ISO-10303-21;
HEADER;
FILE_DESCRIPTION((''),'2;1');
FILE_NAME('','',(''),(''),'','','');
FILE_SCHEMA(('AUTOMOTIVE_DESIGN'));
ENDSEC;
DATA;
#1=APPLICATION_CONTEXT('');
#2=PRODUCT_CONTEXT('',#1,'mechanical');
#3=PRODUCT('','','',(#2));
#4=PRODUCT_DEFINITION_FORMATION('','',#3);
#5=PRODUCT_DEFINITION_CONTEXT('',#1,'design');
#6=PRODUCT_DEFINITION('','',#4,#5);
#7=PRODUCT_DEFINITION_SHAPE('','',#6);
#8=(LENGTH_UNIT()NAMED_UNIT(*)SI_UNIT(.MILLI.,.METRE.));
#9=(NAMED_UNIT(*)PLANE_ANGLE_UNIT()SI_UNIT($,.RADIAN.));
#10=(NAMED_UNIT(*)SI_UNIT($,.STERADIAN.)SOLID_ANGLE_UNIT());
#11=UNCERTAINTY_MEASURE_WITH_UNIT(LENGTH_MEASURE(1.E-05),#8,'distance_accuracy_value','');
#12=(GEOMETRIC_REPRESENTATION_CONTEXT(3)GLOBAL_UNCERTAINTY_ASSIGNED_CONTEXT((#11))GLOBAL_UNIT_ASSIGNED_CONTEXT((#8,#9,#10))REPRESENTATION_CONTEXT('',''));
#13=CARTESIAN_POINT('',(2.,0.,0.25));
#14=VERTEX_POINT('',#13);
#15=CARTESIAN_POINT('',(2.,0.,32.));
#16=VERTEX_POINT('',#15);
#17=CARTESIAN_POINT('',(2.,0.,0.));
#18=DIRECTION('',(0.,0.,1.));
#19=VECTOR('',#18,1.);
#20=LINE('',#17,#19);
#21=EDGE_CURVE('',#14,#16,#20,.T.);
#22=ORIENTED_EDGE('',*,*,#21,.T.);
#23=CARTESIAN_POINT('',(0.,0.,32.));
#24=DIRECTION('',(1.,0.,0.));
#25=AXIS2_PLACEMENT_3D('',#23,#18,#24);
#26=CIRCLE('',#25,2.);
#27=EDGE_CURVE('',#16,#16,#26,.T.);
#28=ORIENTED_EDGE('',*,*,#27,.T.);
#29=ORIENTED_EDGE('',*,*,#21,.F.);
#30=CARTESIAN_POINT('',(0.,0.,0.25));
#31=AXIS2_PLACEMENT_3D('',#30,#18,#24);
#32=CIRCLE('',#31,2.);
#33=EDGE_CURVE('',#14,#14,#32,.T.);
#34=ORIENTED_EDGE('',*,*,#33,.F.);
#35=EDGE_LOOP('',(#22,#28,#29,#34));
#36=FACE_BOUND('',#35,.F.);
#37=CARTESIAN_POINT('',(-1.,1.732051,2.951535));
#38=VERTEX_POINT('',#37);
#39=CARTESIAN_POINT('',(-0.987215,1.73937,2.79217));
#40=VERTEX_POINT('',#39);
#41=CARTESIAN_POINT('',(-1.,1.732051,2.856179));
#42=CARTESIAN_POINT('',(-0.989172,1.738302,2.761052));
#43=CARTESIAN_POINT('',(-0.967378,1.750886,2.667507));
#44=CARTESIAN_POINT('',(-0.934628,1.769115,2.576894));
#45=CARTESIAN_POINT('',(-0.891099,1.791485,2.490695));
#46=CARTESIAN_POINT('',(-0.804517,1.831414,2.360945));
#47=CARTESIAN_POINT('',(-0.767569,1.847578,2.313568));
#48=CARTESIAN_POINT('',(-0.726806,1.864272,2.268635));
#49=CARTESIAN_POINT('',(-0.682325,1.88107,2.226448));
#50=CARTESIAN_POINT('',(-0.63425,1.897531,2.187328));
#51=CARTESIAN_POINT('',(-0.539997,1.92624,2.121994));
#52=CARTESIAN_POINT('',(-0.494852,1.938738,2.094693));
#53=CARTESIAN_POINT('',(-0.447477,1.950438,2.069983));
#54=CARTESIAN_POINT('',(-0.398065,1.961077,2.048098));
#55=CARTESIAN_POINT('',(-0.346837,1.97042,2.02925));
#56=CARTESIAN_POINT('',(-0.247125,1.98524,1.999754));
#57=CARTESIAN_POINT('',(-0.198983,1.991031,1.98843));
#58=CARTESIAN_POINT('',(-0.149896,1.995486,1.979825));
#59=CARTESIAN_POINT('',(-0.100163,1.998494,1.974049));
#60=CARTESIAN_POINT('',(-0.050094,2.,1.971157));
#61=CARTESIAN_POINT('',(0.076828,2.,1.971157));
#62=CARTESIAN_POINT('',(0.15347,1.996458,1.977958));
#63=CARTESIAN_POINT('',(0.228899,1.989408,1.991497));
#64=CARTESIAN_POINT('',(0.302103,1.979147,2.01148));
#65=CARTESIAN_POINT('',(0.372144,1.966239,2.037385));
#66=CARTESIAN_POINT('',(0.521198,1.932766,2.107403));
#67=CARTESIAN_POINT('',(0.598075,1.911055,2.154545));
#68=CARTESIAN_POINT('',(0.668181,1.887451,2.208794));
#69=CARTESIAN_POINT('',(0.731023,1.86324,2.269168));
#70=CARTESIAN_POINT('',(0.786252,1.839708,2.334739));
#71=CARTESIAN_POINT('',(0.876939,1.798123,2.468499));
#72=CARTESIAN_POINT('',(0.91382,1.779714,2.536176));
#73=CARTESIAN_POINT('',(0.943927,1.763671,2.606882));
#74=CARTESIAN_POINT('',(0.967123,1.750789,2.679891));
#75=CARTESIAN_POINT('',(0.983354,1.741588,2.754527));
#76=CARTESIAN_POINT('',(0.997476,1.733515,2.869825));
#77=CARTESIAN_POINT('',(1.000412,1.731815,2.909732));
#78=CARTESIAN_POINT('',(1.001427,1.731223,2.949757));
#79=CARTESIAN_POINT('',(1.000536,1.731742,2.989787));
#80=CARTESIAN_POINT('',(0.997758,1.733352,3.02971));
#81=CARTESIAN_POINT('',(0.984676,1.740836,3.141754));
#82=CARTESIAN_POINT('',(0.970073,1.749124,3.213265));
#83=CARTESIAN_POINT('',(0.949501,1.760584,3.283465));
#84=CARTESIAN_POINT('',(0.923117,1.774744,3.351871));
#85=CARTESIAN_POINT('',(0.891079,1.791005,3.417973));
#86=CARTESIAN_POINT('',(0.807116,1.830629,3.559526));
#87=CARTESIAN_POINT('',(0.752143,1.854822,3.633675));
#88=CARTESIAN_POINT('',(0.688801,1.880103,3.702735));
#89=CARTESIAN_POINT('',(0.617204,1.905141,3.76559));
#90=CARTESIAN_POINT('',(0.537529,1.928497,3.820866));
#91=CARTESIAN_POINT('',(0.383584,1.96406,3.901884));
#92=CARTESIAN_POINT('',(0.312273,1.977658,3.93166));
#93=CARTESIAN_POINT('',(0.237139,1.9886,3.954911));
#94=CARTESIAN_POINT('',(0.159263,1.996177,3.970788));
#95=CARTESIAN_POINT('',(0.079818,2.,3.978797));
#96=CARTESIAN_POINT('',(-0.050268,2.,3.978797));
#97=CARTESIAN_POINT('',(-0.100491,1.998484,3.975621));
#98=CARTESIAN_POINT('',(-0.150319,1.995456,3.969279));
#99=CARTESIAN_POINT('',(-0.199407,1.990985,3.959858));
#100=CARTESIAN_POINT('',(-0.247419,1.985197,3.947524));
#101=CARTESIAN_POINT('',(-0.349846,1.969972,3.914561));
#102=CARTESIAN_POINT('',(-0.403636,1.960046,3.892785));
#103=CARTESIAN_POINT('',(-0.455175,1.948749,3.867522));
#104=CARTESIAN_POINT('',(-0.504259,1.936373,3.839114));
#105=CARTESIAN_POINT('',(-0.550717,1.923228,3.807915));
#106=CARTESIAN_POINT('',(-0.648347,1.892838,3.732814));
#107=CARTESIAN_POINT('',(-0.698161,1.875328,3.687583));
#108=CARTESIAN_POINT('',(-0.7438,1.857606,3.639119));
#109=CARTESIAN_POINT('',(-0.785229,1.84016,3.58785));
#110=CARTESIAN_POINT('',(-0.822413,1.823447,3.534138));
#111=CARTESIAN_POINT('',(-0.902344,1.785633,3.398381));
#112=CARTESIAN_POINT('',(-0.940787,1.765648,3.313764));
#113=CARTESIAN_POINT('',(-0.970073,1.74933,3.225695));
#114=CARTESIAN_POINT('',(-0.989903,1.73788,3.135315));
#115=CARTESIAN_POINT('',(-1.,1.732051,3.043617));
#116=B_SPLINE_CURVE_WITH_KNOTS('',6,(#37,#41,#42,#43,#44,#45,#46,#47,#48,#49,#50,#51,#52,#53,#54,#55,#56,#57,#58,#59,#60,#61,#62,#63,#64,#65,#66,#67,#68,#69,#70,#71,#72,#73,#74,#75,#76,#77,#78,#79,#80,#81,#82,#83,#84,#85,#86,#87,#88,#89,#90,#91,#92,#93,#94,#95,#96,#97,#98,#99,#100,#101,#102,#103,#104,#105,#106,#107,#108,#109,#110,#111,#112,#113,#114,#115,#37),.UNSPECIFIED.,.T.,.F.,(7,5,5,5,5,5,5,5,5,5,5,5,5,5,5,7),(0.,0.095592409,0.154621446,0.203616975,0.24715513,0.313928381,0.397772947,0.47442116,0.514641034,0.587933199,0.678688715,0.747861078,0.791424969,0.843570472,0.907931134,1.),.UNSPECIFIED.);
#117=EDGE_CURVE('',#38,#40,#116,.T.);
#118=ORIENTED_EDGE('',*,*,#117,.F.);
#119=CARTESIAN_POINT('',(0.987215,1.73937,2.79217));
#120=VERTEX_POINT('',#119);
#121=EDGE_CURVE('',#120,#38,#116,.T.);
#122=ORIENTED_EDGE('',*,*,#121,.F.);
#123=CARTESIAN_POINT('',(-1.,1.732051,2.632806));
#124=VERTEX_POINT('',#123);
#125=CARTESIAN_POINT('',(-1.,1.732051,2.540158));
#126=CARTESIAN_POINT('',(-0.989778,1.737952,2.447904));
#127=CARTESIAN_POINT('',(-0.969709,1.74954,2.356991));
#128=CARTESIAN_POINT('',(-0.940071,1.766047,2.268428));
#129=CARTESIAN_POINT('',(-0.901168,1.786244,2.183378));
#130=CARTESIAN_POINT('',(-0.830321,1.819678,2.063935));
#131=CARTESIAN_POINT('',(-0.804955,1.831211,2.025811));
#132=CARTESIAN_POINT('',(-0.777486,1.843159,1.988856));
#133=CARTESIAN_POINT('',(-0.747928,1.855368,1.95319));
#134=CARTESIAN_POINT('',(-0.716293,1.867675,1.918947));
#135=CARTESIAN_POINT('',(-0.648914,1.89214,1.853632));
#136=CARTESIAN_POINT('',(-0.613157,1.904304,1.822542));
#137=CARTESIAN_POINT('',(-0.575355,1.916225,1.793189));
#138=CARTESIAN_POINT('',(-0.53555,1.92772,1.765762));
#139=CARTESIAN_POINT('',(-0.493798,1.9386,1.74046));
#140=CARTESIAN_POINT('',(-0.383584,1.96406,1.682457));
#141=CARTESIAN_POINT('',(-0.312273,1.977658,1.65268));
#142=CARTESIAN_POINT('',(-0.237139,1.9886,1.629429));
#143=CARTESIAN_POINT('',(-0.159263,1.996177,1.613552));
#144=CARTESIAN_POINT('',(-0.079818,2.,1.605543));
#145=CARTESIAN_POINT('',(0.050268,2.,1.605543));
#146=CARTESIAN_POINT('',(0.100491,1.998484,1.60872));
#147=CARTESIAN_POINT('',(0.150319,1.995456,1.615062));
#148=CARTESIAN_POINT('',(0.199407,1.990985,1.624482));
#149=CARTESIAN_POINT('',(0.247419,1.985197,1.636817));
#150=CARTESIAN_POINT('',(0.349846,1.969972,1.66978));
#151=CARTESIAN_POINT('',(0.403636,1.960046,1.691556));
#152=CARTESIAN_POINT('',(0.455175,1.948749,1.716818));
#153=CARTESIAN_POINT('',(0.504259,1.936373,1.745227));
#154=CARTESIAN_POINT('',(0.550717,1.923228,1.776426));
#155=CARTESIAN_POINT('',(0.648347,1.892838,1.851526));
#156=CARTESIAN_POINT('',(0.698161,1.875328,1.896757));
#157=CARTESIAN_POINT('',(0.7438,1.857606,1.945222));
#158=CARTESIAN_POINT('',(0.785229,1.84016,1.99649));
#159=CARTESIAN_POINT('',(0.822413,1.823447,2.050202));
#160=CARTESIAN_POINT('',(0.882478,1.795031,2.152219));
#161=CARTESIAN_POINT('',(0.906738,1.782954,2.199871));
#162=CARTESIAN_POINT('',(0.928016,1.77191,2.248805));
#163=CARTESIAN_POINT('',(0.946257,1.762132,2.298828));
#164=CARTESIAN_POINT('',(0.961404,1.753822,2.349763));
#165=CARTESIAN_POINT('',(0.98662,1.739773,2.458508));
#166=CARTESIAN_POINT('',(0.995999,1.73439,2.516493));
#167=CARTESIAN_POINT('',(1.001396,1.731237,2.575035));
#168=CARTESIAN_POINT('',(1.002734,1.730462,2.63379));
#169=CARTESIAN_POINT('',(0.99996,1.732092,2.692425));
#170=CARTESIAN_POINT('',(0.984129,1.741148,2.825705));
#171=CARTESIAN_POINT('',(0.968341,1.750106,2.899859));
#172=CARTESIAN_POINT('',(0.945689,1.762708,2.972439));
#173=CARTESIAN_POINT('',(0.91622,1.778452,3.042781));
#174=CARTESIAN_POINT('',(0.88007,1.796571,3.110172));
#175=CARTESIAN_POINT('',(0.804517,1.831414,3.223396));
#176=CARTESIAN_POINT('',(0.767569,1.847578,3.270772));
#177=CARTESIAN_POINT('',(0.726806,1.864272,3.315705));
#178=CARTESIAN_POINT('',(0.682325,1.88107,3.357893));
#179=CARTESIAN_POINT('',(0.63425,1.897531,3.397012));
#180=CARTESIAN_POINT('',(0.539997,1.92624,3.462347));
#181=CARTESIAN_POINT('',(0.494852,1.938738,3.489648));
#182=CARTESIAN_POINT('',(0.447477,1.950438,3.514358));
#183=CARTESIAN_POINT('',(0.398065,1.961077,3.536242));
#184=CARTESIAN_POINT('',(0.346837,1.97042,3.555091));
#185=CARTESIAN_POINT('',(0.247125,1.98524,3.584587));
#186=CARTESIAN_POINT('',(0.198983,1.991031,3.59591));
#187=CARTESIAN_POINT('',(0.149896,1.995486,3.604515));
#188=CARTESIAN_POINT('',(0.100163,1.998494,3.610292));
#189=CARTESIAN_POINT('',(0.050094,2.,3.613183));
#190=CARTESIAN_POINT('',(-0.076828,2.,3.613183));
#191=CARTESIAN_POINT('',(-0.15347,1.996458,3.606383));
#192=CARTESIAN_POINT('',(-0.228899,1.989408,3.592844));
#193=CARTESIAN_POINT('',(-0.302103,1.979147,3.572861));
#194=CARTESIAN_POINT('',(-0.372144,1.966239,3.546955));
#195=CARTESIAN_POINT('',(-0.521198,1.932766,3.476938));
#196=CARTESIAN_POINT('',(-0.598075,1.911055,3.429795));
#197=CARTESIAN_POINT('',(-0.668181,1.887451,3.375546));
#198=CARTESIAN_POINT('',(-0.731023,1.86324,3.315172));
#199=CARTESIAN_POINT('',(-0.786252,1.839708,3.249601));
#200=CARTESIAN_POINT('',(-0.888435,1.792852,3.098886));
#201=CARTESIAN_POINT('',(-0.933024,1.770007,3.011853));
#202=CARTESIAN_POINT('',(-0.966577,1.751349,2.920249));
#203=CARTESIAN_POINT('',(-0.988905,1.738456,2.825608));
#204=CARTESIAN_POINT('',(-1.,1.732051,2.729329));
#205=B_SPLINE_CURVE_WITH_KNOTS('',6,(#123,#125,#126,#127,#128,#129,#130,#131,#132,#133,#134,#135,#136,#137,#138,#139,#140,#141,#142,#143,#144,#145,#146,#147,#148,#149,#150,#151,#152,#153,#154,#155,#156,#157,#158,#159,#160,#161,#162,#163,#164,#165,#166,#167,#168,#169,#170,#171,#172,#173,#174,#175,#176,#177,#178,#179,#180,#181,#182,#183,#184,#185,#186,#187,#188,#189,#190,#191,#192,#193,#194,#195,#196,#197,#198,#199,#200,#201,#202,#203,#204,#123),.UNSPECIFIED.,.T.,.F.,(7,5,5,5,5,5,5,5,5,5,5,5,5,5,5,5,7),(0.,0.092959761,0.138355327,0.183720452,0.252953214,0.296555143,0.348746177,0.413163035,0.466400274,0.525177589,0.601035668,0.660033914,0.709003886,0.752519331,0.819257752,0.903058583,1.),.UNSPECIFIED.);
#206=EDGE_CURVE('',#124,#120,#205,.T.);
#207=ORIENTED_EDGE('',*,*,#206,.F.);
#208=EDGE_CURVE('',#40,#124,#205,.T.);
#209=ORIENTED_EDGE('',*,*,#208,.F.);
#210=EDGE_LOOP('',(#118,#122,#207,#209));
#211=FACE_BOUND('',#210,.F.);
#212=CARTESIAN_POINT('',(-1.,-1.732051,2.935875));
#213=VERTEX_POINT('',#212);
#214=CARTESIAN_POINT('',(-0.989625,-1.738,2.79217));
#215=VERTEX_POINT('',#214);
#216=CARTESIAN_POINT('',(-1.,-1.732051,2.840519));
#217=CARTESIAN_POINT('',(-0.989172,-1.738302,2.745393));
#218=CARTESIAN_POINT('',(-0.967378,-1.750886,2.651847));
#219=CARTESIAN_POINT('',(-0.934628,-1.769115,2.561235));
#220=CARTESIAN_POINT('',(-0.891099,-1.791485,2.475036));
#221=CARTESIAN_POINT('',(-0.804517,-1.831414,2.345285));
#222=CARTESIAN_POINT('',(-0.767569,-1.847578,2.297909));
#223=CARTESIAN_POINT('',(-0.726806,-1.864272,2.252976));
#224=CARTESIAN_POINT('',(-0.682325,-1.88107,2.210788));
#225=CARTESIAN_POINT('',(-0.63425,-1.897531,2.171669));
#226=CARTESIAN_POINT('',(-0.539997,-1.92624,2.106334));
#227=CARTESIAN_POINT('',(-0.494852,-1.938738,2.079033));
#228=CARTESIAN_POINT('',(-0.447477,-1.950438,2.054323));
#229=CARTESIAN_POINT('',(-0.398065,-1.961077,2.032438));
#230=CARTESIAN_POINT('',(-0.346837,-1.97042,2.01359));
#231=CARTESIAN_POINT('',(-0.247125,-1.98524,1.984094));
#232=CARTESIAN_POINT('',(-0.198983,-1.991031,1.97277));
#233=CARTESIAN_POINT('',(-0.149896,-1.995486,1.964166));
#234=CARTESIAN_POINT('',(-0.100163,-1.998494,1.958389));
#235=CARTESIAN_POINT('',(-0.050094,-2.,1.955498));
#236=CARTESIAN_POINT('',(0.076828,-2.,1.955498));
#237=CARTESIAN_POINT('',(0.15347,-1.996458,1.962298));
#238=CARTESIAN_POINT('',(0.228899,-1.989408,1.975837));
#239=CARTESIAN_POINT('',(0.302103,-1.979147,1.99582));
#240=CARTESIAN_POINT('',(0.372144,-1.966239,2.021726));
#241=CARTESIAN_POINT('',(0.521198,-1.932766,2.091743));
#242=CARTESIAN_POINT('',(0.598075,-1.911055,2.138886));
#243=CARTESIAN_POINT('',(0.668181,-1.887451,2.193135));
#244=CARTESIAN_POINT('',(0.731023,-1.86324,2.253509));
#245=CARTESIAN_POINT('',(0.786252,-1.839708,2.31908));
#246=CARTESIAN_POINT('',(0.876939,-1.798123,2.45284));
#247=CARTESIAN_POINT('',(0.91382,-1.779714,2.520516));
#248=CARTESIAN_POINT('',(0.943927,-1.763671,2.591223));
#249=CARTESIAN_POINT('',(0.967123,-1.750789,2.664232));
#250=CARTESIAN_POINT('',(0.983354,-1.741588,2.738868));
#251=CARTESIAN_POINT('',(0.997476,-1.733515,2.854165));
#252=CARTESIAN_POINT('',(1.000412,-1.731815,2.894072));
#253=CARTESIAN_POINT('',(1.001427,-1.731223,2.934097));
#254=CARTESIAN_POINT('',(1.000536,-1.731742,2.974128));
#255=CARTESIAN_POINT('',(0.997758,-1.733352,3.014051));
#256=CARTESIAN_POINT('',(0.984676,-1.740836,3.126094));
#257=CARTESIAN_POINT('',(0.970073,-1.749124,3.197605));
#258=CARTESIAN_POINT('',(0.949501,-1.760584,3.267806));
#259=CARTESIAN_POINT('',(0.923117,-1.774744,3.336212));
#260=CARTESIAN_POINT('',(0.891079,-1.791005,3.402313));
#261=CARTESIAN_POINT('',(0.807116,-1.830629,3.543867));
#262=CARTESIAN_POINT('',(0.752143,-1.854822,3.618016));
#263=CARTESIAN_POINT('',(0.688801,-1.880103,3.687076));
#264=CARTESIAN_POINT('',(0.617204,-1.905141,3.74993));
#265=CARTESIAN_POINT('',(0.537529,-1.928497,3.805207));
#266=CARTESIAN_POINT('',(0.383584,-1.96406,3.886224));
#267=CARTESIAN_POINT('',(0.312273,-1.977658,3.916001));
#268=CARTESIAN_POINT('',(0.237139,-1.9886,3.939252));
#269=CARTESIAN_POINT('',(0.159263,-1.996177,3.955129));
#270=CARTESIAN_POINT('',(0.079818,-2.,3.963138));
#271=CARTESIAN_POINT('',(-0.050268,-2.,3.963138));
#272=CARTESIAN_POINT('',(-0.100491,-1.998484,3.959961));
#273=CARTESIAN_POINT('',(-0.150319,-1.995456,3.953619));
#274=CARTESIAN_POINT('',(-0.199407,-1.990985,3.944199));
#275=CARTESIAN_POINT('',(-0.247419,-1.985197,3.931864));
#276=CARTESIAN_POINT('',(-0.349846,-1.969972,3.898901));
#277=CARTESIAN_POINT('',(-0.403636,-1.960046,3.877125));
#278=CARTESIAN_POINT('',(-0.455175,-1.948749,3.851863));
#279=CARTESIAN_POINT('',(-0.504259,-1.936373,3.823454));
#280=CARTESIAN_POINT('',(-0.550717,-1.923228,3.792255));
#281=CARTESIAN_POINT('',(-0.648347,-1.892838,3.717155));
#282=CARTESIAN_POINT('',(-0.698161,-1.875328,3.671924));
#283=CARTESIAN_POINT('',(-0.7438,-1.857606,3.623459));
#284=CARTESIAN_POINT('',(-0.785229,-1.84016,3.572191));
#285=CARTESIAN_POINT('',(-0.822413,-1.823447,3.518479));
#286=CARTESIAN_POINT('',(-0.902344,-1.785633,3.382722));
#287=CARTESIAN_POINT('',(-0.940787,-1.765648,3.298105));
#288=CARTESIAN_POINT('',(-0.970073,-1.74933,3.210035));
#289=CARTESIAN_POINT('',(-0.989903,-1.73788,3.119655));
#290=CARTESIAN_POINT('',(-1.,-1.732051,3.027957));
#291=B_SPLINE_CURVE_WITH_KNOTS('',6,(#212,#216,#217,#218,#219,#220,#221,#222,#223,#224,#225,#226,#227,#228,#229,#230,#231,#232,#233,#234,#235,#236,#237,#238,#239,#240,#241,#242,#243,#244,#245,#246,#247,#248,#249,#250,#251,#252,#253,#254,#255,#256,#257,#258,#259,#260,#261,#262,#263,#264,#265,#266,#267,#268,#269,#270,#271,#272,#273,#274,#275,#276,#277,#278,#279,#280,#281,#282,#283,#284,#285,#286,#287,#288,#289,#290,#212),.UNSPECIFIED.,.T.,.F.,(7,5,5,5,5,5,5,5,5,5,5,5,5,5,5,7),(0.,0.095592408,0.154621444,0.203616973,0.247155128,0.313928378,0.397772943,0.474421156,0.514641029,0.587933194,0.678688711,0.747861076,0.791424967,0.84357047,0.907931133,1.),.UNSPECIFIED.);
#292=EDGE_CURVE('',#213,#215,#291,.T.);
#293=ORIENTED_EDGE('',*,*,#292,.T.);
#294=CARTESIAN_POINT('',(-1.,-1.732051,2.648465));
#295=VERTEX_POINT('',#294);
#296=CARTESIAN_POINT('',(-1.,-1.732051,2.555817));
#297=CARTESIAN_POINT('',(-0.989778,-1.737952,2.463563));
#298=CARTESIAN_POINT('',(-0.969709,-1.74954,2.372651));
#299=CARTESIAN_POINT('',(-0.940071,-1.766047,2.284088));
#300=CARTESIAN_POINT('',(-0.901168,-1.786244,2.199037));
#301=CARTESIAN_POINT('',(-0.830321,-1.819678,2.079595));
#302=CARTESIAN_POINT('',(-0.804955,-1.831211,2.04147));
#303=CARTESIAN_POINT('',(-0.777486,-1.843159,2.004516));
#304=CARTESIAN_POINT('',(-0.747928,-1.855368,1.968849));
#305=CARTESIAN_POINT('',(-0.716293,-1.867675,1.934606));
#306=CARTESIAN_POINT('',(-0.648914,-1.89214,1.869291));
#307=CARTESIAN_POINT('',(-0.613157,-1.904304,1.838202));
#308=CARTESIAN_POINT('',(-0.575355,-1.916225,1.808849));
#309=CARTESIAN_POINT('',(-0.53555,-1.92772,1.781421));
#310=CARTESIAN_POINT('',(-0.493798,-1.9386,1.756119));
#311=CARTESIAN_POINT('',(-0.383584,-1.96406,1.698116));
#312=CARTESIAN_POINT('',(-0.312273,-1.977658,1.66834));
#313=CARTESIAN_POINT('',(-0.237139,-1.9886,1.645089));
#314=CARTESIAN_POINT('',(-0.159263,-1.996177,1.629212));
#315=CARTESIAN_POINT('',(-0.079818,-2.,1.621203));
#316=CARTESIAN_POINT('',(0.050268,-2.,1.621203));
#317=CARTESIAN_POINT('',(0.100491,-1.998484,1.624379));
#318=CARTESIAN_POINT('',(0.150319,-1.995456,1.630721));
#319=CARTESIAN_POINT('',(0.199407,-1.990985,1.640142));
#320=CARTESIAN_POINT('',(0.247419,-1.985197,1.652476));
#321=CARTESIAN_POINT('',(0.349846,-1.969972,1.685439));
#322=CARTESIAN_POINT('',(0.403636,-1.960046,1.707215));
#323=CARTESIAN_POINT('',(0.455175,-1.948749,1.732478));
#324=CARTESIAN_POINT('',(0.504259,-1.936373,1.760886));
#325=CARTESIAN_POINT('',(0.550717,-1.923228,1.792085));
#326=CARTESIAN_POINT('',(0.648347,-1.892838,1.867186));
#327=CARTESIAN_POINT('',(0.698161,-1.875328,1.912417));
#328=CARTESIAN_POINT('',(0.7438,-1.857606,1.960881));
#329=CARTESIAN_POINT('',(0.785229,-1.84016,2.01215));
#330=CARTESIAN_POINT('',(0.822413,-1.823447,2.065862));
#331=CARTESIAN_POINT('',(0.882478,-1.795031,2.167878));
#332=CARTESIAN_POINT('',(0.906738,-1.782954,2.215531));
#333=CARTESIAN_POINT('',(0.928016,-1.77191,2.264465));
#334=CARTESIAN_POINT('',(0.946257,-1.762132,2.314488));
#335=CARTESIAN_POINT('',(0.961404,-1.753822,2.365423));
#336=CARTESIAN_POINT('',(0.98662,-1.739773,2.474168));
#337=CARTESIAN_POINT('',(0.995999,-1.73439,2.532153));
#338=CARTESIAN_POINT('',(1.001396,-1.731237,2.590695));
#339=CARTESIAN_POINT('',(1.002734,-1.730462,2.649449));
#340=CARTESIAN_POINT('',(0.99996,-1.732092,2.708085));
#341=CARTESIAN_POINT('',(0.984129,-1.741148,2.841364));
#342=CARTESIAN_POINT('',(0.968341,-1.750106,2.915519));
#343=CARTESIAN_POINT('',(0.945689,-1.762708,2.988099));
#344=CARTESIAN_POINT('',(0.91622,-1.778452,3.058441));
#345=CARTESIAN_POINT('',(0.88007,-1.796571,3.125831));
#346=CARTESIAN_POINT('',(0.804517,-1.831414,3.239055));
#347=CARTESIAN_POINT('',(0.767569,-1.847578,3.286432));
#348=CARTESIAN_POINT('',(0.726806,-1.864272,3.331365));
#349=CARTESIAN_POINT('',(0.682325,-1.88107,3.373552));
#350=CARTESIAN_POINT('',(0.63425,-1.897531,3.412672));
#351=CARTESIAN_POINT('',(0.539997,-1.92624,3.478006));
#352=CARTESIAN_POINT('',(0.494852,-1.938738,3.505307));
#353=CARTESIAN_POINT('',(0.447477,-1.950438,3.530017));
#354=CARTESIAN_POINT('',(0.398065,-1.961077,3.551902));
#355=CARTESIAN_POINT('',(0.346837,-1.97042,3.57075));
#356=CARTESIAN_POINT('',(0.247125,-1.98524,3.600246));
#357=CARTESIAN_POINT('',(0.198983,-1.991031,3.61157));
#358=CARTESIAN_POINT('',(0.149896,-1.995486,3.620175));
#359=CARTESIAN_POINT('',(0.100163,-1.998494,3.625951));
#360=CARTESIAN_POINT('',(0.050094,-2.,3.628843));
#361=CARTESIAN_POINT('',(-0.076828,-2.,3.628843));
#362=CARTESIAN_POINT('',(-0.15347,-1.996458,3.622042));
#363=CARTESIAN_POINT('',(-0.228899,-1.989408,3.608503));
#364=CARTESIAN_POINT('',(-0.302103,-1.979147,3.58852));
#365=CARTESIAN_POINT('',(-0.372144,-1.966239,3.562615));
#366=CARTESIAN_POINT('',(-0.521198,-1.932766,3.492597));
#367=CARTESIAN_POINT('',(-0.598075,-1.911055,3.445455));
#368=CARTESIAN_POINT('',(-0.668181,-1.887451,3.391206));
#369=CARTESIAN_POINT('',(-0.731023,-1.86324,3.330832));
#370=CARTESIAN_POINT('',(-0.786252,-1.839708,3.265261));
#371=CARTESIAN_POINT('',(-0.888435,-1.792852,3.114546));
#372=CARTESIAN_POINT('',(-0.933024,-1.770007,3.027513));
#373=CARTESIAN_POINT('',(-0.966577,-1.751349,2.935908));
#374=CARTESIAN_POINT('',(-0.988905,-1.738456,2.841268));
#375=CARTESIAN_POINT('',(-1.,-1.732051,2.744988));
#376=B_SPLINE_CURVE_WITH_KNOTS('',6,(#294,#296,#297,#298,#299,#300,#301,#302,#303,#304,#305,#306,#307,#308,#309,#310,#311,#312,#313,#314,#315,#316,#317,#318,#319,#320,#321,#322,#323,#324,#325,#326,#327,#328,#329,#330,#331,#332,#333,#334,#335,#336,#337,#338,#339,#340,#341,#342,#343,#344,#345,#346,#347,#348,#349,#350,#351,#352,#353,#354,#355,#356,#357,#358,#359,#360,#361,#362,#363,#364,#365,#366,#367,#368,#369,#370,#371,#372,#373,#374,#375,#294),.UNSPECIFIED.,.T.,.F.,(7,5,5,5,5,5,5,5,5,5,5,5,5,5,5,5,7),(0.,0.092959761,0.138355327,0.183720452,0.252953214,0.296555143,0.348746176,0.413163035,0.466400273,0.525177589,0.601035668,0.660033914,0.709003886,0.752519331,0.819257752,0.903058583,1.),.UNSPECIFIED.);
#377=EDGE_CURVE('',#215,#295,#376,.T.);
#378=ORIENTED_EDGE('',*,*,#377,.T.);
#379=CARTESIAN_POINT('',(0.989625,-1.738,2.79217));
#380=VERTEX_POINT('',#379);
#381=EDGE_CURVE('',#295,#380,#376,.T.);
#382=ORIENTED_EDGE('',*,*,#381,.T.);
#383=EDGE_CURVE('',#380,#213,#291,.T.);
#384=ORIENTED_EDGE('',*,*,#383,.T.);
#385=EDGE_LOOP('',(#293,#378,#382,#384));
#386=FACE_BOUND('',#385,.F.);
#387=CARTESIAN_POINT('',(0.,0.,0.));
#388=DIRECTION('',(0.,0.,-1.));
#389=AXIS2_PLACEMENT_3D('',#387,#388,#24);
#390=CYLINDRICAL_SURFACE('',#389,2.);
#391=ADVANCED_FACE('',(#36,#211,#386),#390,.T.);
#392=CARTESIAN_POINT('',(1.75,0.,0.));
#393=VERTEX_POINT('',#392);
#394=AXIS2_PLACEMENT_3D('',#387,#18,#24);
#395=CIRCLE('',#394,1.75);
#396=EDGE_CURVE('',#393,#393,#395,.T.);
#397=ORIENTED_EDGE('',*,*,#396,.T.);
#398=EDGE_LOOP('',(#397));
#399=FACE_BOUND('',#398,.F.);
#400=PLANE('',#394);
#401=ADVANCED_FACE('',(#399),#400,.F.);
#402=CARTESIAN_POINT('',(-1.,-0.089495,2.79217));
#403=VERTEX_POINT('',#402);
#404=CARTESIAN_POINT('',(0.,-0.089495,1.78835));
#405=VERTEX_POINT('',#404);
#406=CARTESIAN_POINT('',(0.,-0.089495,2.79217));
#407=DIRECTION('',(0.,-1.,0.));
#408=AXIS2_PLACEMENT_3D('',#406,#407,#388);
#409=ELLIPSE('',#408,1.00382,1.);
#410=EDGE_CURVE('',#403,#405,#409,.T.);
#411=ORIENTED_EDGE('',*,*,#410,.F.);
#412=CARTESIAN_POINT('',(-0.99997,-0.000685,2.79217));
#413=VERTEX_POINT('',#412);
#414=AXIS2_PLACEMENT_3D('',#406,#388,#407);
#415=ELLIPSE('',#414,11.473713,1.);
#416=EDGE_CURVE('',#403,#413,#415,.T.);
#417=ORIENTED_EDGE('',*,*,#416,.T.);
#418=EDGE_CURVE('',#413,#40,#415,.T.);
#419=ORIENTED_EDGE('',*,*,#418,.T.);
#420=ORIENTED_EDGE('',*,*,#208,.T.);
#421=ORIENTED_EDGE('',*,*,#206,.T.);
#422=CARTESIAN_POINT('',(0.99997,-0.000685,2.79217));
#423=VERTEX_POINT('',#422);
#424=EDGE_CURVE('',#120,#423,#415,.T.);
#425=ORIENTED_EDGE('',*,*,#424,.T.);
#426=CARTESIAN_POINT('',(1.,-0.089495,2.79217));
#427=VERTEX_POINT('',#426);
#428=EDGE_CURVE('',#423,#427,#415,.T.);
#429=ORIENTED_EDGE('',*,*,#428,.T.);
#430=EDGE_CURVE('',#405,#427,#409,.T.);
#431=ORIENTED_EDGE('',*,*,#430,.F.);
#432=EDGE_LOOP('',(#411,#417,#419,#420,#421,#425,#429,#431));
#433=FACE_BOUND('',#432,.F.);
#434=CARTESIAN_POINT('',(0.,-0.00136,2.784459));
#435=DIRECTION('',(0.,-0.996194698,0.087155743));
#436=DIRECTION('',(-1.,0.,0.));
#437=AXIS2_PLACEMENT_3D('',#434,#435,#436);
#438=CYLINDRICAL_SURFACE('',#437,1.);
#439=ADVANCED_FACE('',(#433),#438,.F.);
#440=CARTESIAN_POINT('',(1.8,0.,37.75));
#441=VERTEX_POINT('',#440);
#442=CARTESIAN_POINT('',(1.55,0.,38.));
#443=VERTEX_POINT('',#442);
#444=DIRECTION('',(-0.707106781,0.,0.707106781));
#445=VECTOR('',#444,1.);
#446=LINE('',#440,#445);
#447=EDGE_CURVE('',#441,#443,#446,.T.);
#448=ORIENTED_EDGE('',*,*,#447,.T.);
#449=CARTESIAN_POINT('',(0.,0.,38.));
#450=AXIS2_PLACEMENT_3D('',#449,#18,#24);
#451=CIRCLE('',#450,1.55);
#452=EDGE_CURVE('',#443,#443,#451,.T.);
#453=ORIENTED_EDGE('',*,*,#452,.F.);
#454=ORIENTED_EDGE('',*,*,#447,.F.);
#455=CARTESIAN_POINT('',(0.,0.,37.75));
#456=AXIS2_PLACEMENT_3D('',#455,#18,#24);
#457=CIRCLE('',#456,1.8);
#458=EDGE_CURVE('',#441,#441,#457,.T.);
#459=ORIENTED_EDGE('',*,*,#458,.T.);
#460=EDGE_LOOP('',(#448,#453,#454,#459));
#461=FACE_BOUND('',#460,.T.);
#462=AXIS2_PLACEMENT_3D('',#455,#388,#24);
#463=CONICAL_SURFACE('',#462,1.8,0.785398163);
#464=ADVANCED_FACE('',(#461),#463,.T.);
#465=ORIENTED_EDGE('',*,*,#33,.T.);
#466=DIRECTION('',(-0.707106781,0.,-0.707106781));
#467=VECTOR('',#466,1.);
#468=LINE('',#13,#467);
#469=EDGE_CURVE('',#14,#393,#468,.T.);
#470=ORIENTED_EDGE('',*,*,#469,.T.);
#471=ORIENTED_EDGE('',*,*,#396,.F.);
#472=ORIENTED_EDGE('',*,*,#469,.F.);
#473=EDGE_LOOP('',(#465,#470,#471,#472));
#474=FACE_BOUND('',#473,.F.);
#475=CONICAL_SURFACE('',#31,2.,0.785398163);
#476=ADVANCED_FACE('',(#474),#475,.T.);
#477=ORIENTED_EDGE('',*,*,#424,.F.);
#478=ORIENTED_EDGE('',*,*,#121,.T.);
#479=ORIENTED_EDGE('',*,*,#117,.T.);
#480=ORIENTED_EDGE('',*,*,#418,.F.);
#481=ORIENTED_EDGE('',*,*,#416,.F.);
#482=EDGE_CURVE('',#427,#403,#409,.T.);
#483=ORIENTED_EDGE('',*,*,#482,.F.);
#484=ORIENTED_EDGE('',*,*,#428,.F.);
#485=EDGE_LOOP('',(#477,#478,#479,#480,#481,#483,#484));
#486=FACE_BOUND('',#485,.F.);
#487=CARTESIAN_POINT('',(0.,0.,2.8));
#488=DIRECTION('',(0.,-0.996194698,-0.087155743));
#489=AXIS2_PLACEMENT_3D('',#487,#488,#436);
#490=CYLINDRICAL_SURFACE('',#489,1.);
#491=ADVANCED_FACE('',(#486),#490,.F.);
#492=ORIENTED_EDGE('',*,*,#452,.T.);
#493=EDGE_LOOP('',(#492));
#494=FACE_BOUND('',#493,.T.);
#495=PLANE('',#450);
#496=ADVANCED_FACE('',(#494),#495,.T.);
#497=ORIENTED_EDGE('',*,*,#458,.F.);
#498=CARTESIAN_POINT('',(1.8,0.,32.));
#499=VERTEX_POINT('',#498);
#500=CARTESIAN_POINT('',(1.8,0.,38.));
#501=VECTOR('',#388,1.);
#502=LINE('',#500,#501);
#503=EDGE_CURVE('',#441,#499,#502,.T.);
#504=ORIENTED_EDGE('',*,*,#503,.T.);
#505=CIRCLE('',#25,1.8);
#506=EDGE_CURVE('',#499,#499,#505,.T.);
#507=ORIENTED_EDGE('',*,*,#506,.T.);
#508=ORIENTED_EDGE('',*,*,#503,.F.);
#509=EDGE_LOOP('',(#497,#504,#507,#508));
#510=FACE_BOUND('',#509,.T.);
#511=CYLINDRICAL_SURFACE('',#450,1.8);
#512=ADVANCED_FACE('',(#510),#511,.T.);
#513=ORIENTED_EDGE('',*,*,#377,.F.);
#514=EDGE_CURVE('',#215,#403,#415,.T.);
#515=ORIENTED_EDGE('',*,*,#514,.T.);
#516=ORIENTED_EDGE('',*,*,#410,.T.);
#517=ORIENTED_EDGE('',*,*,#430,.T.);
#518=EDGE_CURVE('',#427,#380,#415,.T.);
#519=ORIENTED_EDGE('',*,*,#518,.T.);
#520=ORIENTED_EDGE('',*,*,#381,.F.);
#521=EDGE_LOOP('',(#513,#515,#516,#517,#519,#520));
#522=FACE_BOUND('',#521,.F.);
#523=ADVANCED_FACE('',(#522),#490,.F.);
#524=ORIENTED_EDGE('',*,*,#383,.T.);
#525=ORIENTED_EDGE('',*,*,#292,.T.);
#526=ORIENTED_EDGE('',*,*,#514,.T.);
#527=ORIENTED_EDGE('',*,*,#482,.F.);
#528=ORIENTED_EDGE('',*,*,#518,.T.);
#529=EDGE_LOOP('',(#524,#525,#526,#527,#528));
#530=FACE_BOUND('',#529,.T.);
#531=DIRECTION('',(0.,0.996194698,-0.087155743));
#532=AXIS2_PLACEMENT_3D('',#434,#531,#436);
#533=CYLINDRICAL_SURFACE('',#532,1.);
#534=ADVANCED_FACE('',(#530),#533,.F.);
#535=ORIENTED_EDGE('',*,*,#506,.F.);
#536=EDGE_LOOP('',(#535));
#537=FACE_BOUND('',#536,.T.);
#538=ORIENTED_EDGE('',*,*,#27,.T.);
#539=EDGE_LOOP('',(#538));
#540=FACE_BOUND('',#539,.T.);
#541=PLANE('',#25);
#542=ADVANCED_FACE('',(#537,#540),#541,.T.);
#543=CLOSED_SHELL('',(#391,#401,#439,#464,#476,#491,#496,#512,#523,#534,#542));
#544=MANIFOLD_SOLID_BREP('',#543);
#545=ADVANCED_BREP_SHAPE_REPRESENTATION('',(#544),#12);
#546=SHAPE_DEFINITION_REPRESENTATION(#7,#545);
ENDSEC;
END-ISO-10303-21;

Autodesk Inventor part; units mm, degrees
ref_plane "YZ Plane" through (0, 0, 0) normal (1, 0, 0) x (0, 1, 0)
sketch "Sketch1" plane through (0, 0, 0) normal (0, 0, 1) x (1, 0, 0)
  circle A0 centre (0, 0) radius 2
  dimension "d0" = 4
extrude "Extrusion1" add sketch "Sketch1" along normal blind 38
ref_plane "Work Plane1" through (6.4921, 0, 2.8) normal (0, -0.9962, -0.0872) x (-1, 0, 0)
sketch "Sketch3" plane through (6.4921, 0, 2.8) normal (0, -0.9962, -0.0872) x (-1, 0, 0)
  ellipse E0 centre (6.4921, 0) end of major axis (6.4921, -22.9474) minor radius 2 (4.5072, 2.8107) -> (8.477, 2.8107) ccw projected
  line L0 (4.5072, 2.8107) -> (8.477, 2.8107) projected
  ellipse E1 centre (6.4921, 2.7893) end of major axis (8.4921, 2.7893) minor radius 0.1743 projected
  circle A0 centre (6.4921, 0) radius 1
  point P0 (6.4921, -0.0107)
  dimension "d6" = 2.8
  dimension "d14" = 2
extrude "Extrusion2" cut sketch "Sketch3" along normal through all both and the other way through all contours A0
ref_plane "Work Plane2" through (6.4921, 0, 2.8) normal (0, -0.9962, 0.0872) x (-1, 0, 0)
sketch "Sketch5" plane through (6.4921, 0, 2.8) normal (0, -0.9962, 0.0872) x (-1, 0, 0)
  circle A0 centre (6.4921, 0.0156) radius 1
  point P0 (6.4921, 2.7893)
  dimension "d18" = 2
extrude "Extrusion3" cut sketch "Sketch5" along normal through all both and the other way through all
sketch "Sketch7" plane through (0, 0, 38) normal (0, 0, 1) x (1, 0, 0)
  circle A0 centre (0, 0) radius 2 projected
  circle A1 centre (0, 0) radius 1.8
  dimension "d27" = 3.6
extrude "Extrusion4" cut sketch "Sketch7" against normal blind 6
chamfer "Chamfer2" distance 0.25 angle 45 2 edges at (-1.8, 0, 38) (-2, 0, 0)
properties part number "Link Arm1"
